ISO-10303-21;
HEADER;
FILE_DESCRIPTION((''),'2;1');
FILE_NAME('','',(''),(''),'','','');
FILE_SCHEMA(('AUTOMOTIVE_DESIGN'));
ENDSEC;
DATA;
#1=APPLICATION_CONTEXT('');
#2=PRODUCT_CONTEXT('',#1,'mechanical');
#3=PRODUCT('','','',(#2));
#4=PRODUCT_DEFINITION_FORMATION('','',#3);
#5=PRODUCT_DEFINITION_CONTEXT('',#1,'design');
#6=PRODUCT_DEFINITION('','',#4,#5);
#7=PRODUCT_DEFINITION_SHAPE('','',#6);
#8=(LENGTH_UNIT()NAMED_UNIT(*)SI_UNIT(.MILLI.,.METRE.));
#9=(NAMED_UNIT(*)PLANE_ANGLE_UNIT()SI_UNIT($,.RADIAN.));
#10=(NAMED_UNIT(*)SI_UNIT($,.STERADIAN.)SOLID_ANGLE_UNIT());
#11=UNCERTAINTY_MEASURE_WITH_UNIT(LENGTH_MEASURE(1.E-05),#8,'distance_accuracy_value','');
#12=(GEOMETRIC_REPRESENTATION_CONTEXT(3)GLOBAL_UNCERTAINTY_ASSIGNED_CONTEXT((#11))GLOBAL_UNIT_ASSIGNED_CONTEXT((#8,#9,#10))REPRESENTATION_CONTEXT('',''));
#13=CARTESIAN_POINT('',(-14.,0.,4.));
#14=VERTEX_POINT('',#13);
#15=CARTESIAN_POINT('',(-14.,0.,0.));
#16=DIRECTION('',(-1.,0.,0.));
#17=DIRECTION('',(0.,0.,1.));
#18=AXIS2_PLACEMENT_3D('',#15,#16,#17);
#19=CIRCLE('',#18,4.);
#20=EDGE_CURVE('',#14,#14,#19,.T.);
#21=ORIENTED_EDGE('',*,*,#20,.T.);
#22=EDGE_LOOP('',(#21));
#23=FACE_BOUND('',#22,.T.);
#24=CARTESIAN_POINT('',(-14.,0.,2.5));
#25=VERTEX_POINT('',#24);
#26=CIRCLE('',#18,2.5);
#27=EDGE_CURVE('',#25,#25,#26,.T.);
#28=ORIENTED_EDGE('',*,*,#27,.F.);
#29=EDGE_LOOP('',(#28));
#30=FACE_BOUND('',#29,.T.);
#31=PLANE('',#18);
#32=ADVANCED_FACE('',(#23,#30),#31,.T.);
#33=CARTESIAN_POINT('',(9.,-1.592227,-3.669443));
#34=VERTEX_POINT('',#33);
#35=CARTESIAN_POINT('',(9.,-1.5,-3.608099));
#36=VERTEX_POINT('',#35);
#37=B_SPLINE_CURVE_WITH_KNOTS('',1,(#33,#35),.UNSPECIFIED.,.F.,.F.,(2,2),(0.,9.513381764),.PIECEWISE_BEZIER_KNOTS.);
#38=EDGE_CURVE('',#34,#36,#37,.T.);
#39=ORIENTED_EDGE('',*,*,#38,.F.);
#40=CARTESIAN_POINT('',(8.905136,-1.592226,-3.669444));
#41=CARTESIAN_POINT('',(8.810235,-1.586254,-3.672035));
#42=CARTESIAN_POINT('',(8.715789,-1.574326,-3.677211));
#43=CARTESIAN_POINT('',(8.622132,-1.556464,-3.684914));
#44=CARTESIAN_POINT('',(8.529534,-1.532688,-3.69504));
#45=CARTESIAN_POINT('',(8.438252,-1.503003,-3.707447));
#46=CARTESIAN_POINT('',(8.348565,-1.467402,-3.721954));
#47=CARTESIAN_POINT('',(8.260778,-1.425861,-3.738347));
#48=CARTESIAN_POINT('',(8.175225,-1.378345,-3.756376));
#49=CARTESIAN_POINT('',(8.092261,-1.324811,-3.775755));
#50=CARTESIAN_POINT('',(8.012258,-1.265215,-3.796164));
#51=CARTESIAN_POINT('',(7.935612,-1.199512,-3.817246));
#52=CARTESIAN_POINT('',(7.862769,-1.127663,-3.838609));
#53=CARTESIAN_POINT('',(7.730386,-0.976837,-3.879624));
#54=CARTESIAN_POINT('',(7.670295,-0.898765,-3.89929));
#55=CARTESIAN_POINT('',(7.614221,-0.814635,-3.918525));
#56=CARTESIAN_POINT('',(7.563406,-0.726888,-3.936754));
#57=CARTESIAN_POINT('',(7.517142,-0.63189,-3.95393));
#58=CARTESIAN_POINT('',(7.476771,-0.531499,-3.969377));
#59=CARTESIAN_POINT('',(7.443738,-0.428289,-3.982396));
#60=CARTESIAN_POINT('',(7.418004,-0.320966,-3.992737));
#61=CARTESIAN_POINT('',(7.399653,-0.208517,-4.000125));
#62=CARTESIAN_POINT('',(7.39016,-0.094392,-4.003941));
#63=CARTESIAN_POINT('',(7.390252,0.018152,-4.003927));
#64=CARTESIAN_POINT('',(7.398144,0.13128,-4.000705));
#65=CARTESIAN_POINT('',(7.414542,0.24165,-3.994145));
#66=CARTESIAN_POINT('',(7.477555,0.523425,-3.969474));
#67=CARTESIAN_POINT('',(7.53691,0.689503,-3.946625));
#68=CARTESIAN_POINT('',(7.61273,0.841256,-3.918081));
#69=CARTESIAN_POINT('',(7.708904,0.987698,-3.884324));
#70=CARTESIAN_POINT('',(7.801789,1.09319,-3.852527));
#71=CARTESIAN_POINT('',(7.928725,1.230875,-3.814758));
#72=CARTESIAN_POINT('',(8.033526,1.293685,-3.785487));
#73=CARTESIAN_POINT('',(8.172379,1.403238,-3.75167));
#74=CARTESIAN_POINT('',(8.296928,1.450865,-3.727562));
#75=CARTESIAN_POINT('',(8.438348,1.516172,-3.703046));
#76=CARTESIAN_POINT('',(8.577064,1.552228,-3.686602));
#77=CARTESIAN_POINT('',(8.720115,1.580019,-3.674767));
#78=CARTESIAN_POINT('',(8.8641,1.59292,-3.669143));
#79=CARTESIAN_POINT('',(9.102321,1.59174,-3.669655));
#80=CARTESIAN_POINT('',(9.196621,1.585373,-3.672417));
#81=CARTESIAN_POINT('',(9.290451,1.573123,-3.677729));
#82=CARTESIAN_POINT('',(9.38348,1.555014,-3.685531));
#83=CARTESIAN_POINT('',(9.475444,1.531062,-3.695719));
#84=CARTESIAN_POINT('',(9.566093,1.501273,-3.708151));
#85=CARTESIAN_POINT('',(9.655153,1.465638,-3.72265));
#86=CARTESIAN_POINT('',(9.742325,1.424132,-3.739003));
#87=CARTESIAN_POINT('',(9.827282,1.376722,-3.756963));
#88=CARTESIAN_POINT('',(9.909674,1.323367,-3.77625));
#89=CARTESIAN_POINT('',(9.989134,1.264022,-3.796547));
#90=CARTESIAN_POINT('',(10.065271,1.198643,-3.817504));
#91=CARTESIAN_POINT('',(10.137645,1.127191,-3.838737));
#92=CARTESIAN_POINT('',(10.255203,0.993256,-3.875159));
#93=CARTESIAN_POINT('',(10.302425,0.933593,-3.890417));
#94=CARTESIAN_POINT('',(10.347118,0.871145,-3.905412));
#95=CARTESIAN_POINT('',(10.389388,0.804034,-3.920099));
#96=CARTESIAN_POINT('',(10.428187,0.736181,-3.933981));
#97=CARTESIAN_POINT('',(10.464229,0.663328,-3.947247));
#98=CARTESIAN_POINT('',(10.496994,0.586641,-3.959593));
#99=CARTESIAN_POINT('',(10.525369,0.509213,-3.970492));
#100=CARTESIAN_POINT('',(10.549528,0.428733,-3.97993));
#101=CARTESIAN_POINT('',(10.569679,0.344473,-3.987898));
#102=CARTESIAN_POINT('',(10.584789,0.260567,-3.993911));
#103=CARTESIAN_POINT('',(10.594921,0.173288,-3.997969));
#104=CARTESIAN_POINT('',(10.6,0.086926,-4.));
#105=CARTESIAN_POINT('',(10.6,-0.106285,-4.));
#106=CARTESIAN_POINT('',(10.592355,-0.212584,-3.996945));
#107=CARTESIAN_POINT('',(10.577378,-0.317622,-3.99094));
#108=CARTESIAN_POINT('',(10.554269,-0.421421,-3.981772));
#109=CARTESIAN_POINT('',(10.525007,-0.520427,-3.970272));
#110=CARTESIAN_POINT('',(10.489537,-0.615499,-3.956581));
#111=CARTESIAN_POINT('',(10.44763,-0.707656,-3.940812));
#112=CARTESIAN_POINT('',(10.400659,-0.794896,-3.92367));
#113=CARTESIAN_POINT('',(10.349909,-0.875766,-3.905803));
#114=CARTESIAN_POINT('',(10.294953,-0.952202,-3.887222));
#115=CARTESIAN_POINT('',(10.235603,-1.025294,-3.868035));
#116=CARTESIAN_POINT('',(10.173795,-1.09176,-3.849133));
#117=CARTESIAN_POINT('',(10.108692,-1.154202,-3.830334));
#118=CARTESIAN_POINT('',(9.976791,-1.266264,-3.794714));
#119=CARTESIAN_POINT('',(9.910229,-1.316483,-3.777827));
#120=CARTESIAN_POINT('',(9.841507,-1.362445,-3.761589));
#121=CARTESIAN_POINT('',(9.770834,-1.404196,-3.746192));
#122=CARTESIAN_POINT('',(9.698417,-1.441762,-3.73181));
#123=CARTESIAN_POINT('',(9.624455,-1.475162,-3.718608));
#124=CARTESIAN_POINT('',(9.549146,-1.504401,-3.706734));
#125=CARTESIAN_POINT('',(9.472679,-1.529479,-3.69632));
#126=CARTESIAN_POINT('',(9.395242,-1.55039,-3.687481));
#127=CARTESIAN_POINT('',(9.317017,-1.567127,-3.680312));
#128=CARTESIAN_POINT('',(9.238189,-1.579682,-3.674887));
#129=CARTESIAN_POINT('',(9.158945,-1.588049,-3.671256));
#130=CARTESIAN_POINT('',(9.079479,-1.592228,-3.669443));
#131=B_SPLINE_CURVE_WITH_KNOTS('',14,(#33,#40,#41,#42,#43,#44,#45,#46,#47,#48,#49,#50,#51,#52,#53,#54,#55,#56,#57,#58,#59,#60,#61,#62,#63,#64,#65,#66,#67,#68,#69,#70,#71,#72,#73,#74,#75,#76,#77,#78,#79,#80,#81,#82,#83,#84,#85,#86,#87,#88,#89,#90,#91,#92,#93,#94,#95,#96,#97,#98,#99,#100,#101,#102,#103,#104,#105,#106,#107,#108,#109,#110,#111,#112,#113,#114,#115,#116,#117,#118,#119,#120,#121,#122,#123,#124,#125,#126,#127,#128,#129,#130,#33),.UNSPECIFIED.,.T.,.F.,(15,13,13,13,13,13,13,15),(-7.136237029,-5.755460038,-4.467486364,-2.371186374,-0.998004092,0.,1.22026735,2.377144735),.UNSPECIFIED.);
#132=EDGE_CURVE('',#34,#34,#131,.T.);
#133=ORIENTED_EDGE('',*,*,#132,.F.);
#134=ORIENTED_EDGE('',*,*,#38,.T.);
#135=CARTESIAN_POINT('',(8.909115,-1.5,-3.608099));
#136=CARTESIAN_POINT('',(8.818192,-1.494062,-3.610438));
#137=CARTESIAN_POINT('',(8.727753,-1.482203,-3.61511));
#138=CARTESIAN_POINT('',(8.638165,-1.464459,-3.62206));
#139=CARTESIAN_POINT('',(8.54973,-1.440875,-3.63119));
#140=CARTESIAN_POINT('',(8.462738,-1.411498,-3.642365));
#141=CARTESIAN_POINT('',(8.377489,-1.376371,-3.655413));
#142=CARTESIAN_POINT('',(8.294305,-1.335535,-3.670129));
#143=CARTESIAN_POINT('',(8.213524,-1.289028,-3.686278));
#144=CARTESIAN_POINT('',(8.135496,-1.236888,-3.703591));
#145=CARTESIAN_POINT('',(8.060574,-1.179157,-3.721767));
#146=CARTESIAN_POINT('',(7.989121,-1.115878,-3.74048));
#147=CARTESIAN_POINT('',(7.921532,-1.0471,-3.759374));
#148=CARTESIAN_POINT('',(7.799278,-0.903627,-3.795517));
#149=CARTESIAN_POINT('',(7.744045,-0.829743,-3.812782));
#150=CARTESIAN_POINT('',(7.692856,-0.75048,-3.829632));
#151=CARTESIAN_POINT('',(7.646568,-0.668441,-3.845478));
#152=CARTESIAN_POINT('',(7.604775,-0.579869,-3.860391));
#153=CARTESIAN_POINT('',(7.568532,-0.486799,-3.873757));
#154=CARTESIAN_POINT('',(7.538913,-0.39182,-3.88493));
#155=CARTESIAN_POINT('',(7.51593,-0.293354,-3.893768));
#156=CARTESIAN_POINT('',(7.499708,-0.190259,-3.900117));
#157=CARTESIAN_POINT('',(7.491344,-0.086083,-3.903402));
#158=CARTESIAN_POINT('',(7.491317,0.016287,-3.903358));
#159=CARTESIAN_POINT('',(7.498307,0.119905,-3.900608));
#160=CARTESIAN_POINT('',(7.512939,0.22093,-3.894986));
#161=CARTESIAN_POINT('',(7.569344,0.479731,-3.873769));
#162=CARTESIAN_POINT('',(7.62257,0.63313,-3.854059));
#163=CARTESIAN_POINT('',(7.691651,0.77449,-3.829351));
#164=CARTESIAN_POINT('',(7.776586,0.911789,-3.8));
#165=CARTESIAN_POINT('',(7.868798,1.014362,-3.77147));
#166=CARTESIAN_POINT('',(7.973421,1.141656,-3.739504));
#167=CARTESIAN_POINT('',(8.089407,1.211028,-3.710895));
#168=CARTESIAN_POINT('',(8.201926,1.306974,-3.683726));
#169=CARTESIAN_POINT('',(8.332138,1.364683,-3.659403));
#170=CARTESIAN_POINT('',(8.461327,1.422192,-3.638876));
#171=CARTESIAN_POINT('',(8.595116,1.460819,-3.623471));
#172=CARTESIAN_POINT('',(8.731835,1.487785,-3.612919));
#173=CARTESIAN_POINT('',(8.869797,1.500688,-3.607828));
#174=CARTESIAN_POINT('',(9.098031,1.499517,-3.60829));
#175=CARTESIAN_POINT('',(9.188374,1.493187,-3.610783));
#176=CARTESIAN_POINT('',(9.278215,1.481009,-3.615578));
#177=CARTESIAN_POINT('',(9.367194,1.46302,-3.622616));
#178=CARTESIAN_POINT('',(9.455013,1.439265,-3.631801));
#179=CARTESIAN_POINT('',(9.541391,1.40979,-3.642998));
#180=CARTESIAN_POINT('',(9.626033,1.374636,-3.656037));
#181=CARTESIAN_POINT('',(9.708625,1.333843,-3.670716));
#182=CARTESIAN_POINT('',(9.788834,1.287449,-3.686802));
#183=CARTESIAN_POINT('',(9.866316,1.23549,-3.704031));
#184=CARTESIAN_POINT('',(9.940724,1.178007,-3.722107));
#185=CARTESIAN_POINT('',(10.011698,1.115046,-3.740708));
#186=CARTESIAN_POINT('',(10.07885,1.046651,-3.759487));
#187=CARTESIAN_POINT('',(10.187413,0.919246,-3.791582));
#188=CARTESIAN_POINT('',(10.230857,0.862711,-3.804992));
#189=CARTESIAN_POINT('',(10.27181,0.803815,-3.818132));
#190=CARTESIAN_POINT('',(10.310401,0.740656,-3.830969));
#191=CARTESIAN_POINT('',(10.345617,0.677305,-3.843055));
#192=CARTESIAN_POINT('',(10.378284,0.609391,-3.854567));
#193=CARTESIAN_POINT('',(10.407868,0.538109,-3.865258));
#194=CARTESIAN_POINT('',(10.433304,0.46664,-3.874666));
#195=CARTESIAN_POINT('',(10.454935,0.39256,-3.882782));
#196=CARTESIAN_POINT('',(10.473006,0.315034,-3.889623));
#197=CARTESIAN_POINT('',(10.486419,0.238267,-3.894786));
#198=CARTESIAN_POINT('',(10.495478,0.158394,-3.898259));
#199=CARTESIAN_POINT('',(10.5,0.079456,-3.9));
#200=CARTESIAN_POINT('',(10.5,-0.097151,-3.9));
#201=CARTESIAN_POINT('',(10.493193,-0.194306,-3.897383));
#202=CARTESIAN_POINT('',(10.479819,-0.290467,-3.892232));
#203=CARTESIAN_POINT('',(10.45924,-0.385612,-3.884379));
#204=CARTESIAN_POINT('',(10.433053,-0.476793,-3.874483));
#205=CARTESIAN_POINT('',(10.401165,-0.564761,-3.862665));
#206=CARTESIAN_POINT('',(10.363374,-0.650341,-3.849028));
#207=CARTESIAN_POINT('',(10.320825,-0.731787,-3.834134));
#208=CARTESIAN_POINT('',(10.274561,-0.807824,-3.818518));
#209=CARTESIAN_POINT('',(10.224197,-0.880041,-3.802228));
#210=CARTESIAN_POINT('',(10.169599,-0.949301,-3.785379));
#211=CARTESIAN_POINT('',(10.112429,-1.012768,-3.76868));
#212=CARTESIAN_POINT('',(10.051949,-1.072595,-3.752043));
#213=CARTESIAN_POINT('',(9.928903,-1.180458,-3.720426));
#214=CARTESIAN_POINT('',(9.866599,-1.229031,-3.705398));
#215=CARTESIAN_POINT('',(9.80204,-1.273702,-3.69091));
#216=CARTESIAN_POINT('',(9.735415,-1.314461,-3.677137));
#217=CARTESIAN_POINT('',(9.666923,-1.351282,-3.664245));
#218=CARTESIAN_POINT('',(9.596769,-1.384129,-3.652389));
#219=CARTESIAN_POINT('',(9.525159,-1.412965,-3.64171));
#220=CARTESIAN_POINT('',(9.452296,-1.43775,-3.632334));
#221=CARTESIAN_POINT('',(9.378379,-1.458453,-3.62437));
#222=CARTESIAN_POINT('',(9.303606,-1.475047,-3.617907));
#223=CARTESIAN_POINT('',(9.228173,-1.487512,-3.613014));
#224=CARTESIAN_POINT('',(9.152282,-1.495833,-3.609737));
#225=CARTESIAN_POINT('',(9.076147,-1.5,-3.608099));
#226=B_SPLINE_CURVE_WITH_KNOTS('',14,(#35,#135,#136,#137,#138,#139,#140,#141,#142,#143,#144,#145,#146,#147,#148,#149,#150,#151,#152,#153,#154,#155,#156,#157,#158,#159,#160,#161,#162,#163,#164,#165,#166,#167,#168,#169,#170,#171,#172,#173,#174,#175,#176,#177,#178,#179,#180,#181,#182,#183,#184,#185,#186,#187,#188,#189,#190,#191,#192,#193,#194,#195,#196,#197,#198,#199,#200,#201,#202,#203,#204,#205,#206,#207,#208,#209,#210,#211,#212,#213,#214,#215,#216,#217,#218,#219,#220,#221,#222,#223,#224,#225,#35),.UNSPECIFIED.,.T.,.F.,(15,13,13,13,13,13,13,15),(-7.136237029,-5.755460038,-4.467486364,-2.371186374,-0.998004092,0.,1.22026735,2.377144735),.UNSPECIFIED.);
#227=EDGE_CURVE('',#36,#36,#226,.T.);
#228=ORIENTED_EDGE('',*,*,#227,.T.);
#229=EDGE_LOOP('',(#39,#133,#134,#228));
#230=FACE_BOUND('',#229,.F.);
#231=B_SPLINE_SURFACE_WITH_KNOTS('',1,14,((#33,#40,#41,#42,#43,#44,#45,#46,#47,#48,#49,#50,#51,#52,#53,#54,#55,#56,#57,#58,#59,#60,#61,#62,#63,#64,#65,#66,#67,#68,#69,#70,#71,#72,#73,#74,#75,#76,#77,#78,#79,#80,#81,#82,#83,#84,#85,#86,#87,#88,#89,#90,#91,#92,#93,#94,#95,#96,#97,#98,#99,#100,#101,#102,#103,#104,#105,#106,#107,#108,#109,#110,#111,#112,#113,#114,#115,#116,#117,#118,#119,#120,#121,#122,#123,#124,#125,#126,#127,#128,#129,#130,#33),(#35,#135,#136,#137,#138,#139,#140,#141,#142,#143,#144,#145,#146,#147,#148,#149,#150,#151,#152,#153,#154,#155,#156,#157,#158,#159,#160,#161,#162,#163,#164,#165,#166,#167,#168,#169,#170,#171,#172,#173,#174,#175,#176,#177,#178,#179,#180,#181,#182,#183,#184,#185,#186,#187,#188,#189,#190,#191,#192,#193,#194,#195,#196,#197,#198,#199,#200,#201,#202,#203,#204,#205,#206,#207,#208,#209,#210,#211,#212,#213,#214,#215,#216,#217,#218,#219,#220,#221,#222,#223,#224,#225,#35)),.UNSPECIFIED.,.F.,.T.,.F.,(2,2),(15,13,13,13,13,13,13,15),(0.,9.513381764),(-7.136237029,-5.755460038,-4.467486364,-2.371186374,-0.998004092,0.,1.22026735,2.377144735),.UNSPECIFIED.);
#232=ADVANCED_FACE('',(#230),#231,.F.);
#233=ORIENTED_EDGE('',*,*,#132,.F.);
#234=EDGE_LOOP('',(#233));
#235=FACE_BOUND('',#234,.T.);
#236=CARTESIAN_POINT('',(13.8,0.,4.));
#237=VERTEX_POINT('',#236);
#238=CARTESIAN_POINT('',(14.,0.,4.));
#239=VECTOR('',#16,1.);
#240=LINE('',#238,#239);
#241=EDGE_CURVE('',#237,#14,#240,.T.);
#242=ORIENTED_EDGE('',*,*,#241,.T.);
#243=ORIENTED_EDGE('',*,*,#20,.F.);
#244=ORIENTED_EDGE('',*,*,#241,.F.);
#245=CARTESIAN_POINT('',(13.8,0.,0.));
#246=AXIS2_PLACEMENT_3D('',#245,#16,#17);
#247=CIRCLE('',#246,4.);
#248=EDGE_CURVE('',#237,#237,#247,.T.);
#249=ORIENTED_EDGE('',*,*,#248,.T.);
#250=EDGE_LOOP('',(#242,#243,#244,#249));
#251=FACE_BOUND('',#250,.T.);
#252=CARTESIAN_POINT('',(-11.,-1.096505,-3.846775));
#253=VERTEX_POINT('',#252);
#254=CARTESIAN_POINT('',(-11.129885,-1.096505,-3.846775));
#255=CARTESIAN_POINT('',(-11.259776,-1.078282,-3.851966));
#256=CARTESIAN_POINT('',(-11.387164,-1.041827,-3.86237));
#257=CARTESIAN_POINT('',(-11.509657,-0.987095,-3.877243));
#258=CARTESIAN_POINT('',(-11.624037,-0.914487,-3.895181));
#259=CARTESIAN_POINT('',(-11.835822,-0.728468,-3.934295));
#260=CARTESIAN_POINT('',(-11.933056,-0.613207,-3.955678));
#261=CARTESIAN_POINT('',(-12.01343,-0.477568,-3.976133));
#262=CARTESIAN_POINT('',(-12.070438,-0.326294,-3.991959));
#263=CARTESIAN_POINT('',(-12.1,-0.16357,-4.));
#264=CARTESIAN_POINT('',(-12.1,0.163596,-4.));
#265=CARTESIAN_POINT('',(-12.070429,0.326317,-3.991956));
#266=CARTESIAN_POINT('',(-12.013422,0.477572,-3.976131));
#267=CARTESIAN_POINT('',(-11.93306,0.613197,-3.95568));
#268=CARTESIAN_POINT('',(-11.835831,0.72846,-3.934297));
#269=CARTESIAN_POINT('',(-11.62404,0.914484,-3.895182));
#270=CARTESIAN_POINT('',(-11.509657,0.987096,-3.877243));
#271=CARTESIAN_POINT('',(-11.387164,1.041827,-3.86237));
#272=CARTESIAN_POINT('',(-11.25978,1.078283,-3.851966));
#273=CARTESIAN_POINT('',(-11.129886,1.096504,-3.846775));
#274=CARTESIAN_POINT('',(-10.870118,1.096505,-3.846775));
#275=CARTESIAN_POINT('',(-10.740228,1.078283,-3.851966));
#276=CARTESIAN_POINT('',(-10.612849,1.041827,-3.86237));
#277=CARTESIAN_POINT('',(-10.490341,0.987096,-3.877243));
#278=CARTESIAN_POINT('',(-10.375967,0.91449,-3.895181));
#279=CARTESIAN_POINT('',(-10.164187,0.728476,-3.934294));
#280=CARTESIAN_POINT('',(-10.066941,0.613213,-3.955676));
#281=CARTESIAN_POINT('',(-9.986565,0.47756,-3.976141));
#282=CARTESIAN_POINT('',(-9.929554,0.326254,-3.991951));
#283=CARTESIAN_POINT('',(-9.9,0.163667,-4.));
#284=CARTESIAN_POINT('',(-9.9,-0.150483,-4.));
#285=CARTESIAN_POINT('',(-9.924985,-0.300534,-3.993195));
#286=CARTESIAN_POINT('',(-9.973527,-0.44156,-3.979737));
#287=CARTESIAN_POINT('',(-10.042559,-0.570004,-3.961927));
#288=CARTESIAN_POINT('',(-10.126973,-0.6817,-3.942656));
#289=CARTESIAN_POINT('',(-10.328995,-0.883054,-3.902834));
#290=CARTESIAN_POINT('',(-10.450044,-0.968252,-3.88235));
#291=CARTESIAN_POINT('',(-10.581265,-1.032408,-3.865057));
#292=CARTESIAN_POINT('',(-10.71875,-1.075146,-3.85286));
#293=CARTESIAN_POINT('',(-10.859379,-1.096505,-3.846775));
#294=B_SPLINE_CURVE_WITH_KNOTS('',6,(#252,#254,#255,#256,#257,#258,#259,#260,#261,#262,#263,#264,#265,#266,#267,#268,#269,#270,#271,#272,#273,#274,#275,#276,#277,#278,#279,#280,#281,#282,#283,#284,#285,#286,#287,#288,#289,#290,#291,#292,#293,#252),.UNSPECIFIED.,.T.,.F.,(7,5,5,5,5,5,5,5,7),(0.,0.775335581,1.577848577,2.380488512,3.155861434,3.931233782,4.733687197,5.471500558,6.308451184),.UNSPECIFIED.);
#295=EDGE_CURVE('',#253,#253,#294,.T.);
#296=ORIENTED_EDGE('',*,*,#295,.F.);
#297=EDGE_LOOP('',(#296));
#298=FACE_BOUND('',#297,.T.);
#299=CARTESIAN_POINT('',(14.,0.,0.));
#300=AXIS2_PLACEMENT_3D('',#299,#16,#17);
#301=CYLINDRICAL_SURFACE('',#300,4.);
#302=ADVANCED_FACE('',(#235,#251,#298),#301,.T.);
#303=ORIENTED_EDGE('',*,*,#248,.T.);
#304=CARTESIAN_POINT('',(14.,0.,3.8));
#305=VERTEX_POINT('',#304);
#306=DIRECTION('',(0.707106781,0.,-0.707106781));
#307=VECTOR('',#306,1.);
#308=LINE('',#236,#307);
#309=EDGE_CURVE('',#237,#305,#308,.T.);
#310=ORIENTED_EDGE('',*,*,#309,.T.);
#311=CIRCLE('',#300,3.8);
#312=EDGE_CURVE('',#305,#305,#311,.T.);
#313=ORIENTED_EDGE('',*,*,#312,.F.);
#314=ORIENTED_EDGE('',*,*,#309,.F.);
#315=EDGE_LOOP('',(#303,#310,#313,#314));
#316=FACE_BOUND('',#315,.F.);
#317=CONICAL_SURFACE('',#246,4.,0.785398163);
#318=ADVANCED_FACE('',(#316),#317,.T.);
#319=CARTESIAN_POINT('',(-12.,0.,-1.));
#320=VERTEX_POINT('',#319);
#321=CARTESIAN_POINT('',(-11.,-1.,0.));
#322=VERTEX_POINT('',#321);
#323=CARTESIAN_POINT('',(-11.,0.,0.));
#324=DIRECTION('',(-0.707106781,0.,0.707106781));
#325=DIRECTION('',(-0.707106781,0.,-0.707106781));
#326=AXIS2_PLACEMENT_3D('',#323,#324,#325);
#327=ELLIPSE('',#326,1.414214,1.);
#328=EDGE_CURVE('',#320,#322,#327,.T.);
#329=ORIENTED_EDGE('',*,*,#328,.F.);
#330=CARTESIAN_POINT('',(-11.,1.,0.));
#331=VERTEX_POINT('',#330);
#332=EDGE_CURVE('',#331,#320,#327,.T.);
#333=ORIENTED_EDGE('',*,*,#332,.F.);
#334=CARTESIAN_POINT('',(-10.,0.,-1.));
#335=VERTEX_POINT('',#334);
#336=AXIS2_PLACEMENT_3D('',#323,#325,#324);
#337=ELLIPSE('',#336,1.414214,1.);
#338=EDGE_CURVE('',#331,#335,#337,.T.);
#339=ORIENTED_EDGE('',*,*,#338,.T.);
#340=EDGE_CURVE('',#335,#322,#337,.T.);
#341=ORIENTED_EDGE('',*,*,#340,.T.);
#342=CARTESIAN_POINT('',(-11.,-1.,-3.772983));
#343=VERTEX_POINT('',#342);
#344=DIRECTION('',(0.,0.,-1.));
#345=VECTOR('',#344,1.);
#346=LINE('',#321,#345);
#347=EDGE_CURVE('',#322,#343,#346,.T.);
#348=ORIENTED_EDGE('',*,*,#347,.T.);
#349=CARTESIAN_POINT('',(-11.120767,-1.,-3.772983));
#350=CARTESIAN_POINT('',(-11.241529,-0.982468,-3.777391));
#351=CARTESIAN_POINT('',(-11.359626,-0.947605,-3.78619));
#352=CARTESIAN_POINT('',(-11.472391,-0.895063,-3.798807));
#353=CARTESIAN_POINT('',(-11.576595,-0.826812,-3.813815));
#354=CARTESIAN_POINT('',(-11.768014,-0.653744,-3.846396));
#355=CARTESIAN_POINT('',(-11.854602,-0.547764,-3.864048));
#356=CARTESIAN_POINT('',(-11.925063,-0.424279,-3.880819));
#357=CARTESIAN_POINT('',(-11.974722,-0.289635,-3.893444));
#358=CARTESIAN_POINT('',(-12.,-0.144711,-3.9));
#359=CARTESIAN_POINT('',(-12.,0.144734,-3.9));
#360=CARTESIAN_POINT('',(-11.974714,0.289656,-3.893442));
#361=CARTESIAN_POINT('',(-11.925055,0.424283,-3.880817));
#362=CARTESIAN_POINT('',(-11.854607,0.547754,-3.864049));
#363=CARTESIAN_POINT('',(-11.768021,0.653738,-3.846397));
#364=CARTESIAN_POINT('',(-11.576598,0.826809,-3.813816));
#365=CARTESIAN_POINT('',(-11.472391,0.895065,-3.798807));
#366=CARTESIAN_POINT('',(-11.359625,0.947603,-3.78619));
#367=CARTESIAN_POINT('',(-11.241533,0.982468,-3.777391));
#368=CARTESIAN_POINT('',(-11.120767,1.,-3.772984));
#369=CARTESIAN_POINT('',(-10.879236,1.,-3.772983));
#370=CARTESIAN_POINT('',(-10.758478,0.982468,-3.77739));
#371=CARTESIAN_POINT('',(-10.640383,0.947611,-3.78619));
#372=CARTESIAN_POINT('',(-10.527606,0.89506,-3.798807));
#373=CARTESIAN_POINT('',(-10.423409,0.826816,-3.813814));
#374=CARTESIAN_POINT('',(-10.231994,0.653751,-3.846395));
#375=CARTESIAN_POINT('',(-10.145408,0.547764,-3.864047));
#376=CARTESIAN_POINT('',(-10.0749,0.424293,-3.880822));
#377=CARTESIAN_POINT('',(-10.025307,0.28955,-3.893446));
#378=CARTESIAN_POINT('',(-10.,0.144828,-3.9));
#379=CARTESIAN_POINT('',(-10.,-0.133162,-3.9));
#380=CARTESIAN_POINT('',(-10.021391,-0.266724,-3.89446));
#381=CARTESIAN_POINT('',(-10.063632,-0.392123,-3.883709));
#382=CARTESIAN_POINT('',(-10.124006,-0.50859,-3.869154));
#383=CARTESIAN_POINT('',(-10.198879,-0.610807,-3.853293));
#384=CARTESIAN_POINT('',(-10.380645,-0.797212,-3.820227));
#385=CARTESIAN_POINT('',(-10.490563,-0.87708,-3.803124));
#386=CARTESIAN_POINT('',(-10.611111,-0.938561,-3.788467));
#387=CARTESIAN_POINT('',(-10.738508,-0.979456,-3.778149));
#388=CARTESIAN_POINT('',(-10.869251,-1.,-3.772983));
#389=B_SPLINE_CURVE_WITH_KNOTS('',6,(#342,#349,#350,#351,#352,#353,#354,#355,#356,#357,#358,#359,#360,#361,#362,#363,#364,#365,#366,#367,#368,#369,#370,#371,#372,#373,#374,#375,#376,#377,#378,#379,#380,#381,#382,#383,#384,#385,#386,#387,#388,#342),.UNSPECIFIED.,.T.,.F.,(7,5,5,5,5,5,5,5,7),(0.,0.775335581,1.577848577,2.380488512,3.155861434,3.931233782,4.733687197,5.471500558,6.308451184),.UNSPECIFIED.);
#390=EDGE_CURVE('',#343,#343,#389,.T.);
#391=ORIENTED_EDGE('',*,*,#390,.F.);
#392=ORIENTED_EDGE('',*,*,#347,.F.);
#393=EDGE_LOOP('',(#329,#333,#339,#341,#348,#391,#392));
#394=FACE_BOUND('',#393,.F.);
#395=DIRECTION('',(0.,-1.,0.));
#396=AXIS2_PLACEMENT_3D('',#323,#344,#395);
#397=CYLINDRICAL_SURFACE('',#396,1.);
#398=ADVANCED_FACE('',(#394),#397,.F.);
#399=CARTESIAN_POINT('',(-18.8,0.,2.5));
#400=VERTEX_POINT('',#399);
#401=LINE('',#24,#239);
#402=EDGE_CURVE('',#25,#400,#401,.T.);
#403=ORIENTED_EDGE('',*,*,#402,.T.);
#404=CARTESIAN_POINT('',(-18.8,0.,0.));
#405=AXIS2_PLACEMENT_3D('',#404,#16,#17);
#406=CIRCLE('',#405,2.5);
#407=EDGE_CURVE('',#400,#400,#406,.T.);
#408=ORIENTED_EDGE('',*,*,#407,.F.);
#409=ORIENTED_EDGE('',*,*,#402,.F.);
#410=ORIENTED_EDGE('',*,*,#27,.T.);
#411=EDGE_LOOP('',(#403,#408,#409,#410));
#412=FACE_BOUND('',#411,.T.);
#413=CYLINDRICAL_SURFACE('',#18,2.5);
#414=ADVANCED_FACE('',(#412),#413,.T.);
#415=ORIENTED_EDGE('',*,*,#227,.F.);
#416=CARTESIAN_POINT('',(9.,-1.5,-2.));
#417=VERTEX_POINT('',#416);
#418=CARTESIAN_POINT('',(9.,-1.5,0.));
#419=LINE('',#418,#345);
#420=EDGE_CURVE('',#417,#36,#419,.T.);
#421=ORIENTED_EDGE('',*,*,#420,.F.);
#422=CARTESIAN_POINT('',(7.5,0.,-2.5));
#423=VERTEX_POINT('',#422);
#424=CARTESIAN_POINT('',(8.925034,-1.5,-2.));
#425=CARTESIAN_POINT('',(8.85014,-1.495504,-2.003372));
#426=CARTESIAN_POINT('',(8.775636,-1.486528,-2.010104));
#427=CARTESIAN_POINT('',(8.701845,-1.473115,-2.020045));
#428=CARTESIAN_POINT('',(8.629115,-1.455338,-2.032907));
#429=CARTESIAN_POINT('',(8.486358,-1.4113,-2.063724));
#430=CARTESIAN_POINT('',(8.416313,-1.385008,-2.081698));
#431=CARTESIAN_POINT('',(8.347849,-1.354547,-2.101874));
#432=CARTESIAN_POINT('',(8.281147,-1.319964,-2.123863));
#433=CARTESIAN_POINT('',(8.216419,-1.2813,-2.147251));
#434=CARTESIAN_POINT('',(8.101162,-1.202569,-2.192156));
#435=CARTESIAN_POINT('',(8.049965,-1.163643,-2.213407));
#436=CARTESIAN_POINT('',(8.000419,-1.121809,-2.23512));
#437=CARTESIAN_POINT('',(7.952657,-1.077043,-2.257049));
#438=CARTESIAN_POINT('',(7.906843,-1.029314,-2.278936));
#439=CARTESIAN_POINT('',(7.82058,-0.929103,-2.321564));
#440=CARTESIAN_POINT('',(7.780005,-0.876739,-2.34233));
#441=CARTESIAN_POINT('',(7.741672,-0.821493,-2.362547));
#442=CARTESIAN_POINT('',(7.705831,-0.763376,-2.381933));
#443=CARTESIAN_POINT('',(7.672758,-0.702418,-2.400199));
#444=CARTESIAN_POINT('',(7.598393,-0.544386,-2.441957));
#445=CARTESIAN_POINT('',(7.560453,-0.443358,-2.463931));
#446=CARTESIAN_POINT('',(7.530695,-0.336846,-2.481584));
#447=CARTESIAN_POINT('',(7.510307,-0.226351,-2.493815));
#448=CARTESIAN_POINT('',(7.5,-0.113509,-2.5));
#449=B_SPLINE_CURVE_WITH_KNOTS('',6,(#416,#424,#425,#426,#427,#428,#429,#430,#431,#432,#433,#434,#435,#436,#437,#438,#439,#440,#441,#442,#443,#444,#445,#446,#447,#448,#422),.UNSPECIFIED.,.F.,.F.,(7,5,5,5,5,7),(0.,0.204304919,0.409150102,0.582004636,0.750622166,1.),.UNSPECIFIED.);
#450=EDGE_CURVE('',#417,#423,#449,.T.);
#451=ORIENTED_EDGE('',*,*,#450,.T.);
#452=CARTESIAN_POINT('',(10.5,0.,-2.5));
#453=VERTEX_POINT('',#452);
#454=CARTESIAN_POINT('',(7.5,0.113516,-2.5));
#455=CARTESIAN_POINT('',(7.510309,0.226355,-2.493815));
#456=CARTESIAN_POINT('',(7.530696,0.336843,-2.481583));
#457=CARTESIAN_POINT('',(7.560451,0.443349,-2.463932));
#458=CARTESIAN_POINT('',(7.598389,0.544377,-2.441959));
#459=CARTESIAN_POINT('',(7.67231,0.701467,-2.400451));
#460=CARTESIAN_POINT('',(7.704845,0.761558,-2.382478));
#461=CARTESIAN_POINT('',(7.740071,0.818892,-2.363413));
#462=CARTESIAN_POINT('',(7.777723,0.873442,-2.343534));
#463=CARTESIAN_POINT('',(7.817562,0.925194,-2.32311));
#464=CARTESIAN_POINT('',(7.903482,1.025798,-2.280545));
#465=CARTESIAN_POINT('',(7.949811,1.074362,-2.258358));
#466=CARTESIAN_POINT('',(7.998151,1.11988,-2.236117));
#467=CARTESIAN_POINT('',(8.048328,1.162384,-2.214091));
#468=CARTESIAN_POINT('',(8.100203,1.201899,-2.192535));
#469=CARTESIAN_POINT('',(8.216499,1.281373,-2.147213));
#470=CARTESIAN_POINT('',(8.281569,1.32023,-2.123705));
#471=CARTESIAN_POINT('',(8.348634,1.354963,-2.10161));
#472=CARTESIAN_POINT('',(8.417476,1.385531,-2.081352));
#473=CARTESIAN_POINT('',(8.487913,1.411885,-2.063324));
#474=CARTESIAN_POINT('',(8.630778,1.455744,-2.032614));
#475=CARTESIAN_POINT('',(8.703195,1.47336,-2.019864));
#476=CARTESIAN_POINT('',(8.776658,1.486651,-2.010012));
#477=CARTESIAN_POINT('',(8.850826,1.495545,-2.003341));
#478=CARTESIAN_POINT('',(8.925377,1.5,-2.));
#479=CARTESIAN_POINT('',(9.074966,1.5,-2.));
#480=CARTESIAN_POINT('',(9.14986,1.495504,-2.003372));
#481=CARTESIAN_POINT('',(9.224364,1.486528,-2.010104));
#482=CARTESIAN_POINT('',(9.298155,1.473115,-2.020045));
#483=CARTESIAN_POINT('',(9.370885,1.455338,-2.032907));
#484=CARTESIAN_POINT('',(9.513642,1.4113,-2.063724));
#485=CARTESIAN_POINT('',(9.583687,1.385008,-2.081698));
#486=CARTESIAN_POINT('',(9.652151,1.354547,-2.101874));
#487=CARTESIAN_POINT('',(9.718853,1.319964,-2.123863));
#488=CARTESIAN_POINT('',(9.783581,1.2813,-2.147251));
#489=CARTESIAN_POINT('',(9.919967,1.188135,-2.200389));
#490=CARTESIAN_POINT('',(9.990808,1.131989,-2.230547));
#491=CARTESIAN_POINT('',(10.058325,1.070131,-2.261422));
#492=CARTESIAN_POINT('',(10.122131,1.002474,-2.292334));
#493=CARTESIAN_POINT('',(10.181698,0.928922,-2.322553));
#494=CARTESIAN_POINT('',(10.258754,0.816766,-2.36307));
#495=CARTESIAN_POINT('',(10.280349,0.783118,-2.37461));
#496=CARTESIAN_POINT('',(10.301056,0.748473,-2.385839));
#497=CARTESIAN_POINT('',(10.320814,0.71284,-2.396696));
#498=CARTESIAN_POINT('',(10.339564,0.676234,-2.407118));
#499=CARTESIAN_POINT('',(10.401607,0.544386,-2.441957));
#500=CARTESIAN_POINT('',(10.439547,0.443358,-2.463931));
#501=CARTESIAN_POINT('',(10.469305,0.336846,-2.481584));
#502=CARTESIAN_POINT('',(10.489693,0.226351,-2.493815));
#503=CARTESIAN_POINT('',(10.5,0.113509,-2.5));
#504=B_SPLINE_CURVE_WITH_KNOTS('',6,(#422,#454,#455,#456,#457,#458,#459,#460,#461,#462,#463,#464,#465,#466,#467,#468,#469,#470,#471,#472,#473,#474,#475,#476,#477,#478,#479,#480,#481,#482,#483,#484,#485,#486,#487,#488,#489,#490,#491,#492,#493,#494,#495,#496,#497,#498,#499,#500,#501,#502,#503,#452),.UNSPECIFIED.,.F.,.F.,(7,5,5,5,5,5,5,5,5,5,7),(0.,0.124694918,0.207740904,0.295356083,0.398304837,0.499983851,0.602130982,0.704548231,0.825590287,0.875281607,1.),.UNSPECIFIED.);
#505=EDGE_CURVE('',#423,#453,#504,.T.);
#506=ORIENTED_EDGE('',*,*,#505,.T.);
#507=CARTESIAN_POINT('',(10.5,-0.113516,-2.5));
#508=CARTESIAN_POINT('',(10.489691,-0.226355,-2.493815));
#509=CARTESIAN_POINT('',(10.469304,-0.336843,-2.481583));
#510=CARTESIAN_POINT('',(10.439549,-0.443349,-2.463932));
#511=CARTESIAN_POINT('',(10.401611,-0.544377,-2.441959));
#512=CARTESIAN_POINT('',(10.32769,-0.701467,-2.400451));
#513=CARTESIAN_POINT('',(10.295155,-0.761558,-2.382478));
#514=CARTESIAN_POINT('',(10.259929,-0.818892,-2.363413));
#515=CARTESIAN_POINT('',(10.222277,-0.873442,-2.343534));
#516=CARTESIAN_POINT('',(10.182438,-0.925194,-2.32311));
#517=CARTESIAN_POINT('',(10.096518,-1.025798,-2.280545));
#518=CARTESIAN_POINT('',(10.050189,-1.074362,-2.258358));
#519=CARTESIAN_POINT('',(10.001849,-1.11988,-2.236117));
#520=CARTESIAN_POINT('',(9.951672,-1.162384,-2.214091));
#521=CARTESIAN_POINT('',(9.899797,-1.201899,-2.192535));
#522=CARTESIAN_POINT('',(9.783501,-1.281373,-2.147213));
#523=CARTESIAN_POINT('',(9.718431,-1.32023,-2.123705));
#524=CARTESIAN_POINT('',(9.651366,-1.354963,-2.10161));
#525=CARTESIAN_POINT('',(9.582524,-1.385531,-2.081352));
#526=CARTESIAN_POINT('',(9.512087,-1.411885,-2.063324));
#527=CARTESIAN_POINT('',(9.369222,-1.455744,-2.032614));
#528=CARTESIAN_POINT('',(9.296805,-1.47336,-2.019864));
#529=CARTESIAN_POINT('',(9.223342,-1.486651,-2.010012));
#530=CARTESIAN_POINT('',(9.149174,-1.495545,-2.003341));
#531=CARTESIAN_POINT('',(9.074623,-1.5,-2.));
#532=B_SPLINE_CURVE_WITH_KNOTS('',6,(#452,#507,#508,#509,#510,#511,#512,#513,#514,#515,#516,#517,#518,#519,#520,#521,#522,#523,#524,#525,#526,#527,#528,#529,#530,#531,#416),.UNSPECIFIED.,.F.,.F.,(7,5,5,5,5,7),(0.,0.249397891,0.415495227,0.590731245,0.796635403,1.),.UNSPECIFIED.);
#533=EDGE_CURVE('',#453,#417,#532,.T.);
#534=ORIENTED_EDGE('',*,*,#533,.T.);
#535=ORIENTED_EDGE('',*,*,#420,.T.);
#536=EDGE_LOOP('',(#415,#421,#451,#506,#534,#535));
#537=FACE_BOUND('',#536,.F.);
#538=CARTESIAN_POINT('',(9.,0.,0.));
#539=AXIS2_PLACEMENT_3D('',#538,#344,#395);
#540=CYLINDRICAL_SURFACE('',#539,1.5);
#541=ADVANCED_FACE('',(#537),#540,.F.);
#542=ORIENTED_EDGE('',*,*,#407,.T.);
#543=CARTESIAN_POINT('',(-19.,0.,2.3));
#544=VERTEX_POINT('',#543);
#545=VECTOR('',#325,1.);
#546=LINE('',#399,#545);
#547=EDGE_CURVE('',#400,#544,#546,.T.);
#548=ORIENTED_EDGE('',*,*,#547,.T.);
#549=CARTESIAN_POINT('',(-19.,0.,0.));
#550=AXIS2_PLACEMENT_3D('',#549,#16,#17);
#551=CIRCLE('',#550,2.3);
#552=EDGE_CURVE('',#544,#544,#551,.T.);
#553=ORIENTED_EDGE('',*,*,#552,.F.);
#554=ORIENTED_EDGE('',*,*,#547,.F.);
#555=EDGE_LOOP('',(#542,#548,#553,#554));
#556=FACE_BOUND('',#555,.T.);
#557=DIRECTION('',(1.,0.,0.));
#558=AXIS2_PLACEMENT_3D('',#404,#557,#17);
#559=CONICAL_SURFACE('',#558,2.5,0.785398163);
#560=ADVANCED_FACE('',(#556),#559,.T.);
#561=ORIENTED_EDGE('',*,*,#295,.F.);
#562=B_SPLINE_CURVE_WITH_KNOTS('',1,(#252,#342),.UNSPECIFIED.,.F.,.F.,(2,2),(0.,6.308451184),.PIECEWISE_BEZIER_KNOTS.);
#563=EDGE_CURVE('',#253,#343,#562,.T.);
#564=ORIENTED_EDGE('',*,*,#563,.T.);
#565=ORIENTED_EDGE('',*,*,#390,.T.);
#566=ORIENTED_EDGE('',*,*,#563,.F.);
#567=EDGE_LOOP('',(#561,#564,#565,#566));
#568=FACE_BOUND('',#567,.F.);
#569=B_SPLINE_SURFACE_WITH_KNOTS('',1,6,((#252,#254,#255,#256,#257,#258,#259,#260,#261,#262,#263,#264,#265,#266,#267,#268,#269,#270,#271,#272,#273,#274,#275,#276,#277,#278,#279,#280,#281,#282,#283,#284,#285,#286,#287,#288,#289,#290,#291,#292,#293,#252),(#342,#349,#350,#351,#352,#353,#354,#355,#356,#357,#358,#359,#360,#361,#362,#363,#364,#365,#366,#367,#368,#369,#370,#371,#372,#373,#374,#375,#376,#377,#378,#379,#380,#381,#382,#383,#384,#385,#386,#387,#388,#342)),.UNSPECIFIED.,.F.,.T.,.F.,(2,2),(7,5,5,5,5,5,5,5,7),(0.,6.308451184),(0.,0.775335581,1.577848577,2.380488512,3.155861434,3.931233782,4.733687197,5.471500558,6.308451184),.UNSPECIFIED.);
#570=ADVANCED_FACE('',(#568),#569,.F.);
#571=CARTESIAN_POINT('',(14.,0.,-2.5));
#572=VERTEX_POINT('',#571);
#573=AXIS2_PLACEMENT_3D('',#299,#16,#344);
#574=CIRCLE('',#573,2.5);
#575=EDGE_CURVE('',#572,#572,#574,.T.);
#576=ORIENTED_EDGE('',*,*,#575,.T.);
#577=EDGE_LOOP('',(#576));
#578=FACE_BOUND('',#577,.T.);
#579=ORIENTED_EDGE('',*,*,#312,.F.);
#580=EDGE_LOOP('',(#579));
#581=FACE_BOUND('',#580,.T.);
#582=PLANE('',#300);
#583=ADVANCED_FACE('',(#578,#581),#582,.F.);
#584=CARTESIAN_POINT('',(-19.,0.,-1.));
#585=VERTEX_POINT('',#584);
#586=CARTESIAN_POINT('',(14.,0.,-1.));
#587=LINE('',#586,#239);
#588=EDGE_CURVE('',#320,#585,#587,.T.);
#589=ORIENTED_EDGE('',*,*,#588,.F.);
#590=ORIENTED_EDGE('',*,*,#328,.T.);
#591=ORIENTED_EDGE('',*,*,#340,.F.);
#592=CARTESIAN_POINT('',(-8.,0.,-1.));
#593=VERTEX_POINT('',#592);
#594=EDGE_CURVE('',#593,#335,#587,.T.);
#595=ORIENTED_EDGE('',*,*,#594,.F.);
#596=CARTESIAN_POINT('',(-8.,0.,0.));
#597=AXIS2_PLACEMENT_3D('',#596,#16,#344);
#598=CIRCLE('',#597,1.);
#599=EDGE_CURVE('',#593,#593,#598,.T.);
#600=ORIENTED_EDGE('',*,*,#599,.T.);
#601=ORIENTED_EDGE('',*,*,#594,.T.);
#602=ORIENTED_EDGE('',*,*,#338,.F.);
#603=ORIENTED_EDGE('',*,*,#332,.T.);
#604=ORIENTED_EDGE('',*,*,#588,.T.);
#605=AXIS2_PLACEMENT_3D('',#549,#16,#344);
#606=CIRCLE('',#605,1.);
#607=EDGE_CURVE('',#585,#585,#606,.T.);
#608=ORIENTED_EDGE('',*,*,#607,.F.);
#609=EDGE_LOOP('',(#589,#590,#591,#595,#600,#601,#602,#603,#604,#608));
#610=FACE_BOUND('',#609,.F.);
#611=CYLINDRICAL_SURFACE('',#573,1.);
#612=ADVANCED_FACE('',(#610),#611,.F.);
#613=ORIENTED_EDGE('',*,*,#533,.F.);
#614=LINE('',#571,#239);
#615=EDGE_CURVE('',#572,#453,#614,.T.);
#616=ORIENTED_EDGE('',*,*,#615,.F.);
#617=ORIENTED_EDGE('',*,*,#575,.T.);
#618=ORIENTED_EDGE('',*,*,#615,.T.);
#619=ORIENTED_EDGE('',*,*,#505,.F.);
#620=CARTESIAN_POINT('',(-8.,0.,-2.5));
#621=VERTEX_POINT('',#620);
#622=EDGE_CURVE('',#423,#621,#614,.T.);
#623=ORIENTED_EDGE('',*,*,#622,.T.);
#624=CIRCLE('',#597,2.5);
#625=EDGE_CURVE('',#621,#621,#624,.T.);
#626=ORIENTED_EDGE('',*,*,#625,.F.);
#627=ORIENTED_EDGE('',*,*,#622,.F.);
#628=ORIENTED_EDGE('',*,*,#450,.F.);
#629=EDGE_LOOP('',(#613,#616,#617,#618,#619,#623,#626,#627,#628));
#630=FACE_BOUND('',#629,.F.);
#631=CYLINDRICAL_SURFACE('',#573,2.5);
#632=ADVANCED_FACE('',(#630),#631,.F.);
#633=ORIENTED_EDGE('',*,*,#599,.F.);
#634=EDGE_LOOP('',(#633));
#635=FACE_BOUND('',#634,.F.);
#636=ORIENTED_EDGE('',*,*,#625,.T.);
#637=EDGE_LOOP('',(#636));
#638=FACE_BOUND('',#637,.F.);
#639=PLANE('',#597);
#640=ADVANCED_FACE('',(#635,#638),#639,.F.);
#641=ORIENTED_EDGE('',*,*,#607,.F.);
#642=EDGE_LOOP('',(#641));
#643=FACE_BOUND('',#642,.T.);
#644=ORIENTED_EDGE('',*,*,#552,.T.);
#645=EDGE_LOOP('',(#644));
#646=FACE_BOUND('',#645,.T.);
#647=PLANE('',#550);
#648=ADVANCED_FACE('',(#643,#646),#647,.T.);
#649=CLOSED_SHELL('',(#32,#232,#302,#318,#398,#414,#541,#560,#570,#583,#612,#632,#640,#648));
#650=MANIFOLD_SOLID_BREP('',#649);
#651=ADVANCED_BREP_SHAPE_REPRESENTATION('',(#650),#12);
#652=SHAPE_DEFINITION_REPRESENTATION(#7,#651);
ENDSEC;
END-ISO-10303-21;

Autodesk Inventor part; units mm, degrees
ref_plane "YZ Plane" through (0, 0, 0) normal (1, 0, 0) x (0, 1, 0)
ref_plane "XZ Plane" through (0, 0, 0) normal (0, 1, 0) x (-1, 0, 0)
ref_plane "XY Plane" through (0, 0, 0) normal (0, 0, 1) x (1, 0, 0)
sketch "Skizze3" plane through (0, 0, 0) normal (0, 1, 0) x (-1, 0, 0)
  line L0 (-27.6589, 0) -> (27.6589, 0)
  line L1 (-14, 0) -> (-14, 4)
  line L2 (-14, 4) -> (14, 4)
  line L3 (14, 4) -> (14, 2.5)
  line L4 (14, 2.5) -> (19, 2.5)
  line L5 (19, 2.5) -> (19, 0)
  point P0 (0, 0)
  point P1 (0, 0)
  point P2 (14, 3.25)
  point P3 (0, 4)
  dimension "d4" = 8
  dimension "d5" = 5
  dimension "d6" = 5
  dimension "d7" = 28
revolve "Umdrehung1" add sketch "Skizze3" angle 360 about axis through (27.6589, 0, 0) along (-1, 0, 0)
sketch "Skizze4" plane through (14, 0, 0) normal (1, 0, 0) x (0, 0, -1)
  circle A0 centre (0, 0) radius 4 projected
  point P0 (0, 0)
hole "Bohrung1" at (14, 0, 0) direction (-1, 0, 0) diameter 5 depth 22
hole "Bohrung2" at (14, 0, 0) direction (-1, 0, 0) diameter 2 depth 40
sketch "Skizze5" plane through (0, 0, 0) normal (0, 0, 1) x (1, 0, 0)
  line L0 (14, 4) -> (14, -4) projected
  line L1 (-19, 2.5) -> (-19, -2.5) projected
  line L2 (14, 0) -> (-19.3712, 0)
  line L3 (-14, 4) -> (-14, -4) projected
  point P0 (0, 0)
  point P1 (9, 0)
  point P2 (-11, 0)
  dimension "d23" = 3
  dimension "d24" = 5
hole "Bohrung3" at (-11, 0, 0) direction (0, 0, -1) diameter 2 depth 5
hole "Bohrung4" at (9, 0, 0) direction (0, 0, -1) diameter 3 depth 4
thread "Gewinde1" size "M2x0.4" class "6H" standard "ISO Metric profile" length 8
thread "Gewinde2" size "M3x0.5" class "6H" standard "ISO Metric profile" length 8
chamfer "Fase1" distance 0.1 angle 45 4 edges at (9.9974, -1.1203, -3.8399) (9.0005, 1.5, -3.7081) (8.0025, -1.1203, -3.8399) (-11.0007, 1, -3.873)
chamfer "Fase2" distance 0.2 angle 45 2 edges at (14, 0, -4) (-19, 0, -2.5)
properties part number "BT805_goteln20_22" material "Messing"
